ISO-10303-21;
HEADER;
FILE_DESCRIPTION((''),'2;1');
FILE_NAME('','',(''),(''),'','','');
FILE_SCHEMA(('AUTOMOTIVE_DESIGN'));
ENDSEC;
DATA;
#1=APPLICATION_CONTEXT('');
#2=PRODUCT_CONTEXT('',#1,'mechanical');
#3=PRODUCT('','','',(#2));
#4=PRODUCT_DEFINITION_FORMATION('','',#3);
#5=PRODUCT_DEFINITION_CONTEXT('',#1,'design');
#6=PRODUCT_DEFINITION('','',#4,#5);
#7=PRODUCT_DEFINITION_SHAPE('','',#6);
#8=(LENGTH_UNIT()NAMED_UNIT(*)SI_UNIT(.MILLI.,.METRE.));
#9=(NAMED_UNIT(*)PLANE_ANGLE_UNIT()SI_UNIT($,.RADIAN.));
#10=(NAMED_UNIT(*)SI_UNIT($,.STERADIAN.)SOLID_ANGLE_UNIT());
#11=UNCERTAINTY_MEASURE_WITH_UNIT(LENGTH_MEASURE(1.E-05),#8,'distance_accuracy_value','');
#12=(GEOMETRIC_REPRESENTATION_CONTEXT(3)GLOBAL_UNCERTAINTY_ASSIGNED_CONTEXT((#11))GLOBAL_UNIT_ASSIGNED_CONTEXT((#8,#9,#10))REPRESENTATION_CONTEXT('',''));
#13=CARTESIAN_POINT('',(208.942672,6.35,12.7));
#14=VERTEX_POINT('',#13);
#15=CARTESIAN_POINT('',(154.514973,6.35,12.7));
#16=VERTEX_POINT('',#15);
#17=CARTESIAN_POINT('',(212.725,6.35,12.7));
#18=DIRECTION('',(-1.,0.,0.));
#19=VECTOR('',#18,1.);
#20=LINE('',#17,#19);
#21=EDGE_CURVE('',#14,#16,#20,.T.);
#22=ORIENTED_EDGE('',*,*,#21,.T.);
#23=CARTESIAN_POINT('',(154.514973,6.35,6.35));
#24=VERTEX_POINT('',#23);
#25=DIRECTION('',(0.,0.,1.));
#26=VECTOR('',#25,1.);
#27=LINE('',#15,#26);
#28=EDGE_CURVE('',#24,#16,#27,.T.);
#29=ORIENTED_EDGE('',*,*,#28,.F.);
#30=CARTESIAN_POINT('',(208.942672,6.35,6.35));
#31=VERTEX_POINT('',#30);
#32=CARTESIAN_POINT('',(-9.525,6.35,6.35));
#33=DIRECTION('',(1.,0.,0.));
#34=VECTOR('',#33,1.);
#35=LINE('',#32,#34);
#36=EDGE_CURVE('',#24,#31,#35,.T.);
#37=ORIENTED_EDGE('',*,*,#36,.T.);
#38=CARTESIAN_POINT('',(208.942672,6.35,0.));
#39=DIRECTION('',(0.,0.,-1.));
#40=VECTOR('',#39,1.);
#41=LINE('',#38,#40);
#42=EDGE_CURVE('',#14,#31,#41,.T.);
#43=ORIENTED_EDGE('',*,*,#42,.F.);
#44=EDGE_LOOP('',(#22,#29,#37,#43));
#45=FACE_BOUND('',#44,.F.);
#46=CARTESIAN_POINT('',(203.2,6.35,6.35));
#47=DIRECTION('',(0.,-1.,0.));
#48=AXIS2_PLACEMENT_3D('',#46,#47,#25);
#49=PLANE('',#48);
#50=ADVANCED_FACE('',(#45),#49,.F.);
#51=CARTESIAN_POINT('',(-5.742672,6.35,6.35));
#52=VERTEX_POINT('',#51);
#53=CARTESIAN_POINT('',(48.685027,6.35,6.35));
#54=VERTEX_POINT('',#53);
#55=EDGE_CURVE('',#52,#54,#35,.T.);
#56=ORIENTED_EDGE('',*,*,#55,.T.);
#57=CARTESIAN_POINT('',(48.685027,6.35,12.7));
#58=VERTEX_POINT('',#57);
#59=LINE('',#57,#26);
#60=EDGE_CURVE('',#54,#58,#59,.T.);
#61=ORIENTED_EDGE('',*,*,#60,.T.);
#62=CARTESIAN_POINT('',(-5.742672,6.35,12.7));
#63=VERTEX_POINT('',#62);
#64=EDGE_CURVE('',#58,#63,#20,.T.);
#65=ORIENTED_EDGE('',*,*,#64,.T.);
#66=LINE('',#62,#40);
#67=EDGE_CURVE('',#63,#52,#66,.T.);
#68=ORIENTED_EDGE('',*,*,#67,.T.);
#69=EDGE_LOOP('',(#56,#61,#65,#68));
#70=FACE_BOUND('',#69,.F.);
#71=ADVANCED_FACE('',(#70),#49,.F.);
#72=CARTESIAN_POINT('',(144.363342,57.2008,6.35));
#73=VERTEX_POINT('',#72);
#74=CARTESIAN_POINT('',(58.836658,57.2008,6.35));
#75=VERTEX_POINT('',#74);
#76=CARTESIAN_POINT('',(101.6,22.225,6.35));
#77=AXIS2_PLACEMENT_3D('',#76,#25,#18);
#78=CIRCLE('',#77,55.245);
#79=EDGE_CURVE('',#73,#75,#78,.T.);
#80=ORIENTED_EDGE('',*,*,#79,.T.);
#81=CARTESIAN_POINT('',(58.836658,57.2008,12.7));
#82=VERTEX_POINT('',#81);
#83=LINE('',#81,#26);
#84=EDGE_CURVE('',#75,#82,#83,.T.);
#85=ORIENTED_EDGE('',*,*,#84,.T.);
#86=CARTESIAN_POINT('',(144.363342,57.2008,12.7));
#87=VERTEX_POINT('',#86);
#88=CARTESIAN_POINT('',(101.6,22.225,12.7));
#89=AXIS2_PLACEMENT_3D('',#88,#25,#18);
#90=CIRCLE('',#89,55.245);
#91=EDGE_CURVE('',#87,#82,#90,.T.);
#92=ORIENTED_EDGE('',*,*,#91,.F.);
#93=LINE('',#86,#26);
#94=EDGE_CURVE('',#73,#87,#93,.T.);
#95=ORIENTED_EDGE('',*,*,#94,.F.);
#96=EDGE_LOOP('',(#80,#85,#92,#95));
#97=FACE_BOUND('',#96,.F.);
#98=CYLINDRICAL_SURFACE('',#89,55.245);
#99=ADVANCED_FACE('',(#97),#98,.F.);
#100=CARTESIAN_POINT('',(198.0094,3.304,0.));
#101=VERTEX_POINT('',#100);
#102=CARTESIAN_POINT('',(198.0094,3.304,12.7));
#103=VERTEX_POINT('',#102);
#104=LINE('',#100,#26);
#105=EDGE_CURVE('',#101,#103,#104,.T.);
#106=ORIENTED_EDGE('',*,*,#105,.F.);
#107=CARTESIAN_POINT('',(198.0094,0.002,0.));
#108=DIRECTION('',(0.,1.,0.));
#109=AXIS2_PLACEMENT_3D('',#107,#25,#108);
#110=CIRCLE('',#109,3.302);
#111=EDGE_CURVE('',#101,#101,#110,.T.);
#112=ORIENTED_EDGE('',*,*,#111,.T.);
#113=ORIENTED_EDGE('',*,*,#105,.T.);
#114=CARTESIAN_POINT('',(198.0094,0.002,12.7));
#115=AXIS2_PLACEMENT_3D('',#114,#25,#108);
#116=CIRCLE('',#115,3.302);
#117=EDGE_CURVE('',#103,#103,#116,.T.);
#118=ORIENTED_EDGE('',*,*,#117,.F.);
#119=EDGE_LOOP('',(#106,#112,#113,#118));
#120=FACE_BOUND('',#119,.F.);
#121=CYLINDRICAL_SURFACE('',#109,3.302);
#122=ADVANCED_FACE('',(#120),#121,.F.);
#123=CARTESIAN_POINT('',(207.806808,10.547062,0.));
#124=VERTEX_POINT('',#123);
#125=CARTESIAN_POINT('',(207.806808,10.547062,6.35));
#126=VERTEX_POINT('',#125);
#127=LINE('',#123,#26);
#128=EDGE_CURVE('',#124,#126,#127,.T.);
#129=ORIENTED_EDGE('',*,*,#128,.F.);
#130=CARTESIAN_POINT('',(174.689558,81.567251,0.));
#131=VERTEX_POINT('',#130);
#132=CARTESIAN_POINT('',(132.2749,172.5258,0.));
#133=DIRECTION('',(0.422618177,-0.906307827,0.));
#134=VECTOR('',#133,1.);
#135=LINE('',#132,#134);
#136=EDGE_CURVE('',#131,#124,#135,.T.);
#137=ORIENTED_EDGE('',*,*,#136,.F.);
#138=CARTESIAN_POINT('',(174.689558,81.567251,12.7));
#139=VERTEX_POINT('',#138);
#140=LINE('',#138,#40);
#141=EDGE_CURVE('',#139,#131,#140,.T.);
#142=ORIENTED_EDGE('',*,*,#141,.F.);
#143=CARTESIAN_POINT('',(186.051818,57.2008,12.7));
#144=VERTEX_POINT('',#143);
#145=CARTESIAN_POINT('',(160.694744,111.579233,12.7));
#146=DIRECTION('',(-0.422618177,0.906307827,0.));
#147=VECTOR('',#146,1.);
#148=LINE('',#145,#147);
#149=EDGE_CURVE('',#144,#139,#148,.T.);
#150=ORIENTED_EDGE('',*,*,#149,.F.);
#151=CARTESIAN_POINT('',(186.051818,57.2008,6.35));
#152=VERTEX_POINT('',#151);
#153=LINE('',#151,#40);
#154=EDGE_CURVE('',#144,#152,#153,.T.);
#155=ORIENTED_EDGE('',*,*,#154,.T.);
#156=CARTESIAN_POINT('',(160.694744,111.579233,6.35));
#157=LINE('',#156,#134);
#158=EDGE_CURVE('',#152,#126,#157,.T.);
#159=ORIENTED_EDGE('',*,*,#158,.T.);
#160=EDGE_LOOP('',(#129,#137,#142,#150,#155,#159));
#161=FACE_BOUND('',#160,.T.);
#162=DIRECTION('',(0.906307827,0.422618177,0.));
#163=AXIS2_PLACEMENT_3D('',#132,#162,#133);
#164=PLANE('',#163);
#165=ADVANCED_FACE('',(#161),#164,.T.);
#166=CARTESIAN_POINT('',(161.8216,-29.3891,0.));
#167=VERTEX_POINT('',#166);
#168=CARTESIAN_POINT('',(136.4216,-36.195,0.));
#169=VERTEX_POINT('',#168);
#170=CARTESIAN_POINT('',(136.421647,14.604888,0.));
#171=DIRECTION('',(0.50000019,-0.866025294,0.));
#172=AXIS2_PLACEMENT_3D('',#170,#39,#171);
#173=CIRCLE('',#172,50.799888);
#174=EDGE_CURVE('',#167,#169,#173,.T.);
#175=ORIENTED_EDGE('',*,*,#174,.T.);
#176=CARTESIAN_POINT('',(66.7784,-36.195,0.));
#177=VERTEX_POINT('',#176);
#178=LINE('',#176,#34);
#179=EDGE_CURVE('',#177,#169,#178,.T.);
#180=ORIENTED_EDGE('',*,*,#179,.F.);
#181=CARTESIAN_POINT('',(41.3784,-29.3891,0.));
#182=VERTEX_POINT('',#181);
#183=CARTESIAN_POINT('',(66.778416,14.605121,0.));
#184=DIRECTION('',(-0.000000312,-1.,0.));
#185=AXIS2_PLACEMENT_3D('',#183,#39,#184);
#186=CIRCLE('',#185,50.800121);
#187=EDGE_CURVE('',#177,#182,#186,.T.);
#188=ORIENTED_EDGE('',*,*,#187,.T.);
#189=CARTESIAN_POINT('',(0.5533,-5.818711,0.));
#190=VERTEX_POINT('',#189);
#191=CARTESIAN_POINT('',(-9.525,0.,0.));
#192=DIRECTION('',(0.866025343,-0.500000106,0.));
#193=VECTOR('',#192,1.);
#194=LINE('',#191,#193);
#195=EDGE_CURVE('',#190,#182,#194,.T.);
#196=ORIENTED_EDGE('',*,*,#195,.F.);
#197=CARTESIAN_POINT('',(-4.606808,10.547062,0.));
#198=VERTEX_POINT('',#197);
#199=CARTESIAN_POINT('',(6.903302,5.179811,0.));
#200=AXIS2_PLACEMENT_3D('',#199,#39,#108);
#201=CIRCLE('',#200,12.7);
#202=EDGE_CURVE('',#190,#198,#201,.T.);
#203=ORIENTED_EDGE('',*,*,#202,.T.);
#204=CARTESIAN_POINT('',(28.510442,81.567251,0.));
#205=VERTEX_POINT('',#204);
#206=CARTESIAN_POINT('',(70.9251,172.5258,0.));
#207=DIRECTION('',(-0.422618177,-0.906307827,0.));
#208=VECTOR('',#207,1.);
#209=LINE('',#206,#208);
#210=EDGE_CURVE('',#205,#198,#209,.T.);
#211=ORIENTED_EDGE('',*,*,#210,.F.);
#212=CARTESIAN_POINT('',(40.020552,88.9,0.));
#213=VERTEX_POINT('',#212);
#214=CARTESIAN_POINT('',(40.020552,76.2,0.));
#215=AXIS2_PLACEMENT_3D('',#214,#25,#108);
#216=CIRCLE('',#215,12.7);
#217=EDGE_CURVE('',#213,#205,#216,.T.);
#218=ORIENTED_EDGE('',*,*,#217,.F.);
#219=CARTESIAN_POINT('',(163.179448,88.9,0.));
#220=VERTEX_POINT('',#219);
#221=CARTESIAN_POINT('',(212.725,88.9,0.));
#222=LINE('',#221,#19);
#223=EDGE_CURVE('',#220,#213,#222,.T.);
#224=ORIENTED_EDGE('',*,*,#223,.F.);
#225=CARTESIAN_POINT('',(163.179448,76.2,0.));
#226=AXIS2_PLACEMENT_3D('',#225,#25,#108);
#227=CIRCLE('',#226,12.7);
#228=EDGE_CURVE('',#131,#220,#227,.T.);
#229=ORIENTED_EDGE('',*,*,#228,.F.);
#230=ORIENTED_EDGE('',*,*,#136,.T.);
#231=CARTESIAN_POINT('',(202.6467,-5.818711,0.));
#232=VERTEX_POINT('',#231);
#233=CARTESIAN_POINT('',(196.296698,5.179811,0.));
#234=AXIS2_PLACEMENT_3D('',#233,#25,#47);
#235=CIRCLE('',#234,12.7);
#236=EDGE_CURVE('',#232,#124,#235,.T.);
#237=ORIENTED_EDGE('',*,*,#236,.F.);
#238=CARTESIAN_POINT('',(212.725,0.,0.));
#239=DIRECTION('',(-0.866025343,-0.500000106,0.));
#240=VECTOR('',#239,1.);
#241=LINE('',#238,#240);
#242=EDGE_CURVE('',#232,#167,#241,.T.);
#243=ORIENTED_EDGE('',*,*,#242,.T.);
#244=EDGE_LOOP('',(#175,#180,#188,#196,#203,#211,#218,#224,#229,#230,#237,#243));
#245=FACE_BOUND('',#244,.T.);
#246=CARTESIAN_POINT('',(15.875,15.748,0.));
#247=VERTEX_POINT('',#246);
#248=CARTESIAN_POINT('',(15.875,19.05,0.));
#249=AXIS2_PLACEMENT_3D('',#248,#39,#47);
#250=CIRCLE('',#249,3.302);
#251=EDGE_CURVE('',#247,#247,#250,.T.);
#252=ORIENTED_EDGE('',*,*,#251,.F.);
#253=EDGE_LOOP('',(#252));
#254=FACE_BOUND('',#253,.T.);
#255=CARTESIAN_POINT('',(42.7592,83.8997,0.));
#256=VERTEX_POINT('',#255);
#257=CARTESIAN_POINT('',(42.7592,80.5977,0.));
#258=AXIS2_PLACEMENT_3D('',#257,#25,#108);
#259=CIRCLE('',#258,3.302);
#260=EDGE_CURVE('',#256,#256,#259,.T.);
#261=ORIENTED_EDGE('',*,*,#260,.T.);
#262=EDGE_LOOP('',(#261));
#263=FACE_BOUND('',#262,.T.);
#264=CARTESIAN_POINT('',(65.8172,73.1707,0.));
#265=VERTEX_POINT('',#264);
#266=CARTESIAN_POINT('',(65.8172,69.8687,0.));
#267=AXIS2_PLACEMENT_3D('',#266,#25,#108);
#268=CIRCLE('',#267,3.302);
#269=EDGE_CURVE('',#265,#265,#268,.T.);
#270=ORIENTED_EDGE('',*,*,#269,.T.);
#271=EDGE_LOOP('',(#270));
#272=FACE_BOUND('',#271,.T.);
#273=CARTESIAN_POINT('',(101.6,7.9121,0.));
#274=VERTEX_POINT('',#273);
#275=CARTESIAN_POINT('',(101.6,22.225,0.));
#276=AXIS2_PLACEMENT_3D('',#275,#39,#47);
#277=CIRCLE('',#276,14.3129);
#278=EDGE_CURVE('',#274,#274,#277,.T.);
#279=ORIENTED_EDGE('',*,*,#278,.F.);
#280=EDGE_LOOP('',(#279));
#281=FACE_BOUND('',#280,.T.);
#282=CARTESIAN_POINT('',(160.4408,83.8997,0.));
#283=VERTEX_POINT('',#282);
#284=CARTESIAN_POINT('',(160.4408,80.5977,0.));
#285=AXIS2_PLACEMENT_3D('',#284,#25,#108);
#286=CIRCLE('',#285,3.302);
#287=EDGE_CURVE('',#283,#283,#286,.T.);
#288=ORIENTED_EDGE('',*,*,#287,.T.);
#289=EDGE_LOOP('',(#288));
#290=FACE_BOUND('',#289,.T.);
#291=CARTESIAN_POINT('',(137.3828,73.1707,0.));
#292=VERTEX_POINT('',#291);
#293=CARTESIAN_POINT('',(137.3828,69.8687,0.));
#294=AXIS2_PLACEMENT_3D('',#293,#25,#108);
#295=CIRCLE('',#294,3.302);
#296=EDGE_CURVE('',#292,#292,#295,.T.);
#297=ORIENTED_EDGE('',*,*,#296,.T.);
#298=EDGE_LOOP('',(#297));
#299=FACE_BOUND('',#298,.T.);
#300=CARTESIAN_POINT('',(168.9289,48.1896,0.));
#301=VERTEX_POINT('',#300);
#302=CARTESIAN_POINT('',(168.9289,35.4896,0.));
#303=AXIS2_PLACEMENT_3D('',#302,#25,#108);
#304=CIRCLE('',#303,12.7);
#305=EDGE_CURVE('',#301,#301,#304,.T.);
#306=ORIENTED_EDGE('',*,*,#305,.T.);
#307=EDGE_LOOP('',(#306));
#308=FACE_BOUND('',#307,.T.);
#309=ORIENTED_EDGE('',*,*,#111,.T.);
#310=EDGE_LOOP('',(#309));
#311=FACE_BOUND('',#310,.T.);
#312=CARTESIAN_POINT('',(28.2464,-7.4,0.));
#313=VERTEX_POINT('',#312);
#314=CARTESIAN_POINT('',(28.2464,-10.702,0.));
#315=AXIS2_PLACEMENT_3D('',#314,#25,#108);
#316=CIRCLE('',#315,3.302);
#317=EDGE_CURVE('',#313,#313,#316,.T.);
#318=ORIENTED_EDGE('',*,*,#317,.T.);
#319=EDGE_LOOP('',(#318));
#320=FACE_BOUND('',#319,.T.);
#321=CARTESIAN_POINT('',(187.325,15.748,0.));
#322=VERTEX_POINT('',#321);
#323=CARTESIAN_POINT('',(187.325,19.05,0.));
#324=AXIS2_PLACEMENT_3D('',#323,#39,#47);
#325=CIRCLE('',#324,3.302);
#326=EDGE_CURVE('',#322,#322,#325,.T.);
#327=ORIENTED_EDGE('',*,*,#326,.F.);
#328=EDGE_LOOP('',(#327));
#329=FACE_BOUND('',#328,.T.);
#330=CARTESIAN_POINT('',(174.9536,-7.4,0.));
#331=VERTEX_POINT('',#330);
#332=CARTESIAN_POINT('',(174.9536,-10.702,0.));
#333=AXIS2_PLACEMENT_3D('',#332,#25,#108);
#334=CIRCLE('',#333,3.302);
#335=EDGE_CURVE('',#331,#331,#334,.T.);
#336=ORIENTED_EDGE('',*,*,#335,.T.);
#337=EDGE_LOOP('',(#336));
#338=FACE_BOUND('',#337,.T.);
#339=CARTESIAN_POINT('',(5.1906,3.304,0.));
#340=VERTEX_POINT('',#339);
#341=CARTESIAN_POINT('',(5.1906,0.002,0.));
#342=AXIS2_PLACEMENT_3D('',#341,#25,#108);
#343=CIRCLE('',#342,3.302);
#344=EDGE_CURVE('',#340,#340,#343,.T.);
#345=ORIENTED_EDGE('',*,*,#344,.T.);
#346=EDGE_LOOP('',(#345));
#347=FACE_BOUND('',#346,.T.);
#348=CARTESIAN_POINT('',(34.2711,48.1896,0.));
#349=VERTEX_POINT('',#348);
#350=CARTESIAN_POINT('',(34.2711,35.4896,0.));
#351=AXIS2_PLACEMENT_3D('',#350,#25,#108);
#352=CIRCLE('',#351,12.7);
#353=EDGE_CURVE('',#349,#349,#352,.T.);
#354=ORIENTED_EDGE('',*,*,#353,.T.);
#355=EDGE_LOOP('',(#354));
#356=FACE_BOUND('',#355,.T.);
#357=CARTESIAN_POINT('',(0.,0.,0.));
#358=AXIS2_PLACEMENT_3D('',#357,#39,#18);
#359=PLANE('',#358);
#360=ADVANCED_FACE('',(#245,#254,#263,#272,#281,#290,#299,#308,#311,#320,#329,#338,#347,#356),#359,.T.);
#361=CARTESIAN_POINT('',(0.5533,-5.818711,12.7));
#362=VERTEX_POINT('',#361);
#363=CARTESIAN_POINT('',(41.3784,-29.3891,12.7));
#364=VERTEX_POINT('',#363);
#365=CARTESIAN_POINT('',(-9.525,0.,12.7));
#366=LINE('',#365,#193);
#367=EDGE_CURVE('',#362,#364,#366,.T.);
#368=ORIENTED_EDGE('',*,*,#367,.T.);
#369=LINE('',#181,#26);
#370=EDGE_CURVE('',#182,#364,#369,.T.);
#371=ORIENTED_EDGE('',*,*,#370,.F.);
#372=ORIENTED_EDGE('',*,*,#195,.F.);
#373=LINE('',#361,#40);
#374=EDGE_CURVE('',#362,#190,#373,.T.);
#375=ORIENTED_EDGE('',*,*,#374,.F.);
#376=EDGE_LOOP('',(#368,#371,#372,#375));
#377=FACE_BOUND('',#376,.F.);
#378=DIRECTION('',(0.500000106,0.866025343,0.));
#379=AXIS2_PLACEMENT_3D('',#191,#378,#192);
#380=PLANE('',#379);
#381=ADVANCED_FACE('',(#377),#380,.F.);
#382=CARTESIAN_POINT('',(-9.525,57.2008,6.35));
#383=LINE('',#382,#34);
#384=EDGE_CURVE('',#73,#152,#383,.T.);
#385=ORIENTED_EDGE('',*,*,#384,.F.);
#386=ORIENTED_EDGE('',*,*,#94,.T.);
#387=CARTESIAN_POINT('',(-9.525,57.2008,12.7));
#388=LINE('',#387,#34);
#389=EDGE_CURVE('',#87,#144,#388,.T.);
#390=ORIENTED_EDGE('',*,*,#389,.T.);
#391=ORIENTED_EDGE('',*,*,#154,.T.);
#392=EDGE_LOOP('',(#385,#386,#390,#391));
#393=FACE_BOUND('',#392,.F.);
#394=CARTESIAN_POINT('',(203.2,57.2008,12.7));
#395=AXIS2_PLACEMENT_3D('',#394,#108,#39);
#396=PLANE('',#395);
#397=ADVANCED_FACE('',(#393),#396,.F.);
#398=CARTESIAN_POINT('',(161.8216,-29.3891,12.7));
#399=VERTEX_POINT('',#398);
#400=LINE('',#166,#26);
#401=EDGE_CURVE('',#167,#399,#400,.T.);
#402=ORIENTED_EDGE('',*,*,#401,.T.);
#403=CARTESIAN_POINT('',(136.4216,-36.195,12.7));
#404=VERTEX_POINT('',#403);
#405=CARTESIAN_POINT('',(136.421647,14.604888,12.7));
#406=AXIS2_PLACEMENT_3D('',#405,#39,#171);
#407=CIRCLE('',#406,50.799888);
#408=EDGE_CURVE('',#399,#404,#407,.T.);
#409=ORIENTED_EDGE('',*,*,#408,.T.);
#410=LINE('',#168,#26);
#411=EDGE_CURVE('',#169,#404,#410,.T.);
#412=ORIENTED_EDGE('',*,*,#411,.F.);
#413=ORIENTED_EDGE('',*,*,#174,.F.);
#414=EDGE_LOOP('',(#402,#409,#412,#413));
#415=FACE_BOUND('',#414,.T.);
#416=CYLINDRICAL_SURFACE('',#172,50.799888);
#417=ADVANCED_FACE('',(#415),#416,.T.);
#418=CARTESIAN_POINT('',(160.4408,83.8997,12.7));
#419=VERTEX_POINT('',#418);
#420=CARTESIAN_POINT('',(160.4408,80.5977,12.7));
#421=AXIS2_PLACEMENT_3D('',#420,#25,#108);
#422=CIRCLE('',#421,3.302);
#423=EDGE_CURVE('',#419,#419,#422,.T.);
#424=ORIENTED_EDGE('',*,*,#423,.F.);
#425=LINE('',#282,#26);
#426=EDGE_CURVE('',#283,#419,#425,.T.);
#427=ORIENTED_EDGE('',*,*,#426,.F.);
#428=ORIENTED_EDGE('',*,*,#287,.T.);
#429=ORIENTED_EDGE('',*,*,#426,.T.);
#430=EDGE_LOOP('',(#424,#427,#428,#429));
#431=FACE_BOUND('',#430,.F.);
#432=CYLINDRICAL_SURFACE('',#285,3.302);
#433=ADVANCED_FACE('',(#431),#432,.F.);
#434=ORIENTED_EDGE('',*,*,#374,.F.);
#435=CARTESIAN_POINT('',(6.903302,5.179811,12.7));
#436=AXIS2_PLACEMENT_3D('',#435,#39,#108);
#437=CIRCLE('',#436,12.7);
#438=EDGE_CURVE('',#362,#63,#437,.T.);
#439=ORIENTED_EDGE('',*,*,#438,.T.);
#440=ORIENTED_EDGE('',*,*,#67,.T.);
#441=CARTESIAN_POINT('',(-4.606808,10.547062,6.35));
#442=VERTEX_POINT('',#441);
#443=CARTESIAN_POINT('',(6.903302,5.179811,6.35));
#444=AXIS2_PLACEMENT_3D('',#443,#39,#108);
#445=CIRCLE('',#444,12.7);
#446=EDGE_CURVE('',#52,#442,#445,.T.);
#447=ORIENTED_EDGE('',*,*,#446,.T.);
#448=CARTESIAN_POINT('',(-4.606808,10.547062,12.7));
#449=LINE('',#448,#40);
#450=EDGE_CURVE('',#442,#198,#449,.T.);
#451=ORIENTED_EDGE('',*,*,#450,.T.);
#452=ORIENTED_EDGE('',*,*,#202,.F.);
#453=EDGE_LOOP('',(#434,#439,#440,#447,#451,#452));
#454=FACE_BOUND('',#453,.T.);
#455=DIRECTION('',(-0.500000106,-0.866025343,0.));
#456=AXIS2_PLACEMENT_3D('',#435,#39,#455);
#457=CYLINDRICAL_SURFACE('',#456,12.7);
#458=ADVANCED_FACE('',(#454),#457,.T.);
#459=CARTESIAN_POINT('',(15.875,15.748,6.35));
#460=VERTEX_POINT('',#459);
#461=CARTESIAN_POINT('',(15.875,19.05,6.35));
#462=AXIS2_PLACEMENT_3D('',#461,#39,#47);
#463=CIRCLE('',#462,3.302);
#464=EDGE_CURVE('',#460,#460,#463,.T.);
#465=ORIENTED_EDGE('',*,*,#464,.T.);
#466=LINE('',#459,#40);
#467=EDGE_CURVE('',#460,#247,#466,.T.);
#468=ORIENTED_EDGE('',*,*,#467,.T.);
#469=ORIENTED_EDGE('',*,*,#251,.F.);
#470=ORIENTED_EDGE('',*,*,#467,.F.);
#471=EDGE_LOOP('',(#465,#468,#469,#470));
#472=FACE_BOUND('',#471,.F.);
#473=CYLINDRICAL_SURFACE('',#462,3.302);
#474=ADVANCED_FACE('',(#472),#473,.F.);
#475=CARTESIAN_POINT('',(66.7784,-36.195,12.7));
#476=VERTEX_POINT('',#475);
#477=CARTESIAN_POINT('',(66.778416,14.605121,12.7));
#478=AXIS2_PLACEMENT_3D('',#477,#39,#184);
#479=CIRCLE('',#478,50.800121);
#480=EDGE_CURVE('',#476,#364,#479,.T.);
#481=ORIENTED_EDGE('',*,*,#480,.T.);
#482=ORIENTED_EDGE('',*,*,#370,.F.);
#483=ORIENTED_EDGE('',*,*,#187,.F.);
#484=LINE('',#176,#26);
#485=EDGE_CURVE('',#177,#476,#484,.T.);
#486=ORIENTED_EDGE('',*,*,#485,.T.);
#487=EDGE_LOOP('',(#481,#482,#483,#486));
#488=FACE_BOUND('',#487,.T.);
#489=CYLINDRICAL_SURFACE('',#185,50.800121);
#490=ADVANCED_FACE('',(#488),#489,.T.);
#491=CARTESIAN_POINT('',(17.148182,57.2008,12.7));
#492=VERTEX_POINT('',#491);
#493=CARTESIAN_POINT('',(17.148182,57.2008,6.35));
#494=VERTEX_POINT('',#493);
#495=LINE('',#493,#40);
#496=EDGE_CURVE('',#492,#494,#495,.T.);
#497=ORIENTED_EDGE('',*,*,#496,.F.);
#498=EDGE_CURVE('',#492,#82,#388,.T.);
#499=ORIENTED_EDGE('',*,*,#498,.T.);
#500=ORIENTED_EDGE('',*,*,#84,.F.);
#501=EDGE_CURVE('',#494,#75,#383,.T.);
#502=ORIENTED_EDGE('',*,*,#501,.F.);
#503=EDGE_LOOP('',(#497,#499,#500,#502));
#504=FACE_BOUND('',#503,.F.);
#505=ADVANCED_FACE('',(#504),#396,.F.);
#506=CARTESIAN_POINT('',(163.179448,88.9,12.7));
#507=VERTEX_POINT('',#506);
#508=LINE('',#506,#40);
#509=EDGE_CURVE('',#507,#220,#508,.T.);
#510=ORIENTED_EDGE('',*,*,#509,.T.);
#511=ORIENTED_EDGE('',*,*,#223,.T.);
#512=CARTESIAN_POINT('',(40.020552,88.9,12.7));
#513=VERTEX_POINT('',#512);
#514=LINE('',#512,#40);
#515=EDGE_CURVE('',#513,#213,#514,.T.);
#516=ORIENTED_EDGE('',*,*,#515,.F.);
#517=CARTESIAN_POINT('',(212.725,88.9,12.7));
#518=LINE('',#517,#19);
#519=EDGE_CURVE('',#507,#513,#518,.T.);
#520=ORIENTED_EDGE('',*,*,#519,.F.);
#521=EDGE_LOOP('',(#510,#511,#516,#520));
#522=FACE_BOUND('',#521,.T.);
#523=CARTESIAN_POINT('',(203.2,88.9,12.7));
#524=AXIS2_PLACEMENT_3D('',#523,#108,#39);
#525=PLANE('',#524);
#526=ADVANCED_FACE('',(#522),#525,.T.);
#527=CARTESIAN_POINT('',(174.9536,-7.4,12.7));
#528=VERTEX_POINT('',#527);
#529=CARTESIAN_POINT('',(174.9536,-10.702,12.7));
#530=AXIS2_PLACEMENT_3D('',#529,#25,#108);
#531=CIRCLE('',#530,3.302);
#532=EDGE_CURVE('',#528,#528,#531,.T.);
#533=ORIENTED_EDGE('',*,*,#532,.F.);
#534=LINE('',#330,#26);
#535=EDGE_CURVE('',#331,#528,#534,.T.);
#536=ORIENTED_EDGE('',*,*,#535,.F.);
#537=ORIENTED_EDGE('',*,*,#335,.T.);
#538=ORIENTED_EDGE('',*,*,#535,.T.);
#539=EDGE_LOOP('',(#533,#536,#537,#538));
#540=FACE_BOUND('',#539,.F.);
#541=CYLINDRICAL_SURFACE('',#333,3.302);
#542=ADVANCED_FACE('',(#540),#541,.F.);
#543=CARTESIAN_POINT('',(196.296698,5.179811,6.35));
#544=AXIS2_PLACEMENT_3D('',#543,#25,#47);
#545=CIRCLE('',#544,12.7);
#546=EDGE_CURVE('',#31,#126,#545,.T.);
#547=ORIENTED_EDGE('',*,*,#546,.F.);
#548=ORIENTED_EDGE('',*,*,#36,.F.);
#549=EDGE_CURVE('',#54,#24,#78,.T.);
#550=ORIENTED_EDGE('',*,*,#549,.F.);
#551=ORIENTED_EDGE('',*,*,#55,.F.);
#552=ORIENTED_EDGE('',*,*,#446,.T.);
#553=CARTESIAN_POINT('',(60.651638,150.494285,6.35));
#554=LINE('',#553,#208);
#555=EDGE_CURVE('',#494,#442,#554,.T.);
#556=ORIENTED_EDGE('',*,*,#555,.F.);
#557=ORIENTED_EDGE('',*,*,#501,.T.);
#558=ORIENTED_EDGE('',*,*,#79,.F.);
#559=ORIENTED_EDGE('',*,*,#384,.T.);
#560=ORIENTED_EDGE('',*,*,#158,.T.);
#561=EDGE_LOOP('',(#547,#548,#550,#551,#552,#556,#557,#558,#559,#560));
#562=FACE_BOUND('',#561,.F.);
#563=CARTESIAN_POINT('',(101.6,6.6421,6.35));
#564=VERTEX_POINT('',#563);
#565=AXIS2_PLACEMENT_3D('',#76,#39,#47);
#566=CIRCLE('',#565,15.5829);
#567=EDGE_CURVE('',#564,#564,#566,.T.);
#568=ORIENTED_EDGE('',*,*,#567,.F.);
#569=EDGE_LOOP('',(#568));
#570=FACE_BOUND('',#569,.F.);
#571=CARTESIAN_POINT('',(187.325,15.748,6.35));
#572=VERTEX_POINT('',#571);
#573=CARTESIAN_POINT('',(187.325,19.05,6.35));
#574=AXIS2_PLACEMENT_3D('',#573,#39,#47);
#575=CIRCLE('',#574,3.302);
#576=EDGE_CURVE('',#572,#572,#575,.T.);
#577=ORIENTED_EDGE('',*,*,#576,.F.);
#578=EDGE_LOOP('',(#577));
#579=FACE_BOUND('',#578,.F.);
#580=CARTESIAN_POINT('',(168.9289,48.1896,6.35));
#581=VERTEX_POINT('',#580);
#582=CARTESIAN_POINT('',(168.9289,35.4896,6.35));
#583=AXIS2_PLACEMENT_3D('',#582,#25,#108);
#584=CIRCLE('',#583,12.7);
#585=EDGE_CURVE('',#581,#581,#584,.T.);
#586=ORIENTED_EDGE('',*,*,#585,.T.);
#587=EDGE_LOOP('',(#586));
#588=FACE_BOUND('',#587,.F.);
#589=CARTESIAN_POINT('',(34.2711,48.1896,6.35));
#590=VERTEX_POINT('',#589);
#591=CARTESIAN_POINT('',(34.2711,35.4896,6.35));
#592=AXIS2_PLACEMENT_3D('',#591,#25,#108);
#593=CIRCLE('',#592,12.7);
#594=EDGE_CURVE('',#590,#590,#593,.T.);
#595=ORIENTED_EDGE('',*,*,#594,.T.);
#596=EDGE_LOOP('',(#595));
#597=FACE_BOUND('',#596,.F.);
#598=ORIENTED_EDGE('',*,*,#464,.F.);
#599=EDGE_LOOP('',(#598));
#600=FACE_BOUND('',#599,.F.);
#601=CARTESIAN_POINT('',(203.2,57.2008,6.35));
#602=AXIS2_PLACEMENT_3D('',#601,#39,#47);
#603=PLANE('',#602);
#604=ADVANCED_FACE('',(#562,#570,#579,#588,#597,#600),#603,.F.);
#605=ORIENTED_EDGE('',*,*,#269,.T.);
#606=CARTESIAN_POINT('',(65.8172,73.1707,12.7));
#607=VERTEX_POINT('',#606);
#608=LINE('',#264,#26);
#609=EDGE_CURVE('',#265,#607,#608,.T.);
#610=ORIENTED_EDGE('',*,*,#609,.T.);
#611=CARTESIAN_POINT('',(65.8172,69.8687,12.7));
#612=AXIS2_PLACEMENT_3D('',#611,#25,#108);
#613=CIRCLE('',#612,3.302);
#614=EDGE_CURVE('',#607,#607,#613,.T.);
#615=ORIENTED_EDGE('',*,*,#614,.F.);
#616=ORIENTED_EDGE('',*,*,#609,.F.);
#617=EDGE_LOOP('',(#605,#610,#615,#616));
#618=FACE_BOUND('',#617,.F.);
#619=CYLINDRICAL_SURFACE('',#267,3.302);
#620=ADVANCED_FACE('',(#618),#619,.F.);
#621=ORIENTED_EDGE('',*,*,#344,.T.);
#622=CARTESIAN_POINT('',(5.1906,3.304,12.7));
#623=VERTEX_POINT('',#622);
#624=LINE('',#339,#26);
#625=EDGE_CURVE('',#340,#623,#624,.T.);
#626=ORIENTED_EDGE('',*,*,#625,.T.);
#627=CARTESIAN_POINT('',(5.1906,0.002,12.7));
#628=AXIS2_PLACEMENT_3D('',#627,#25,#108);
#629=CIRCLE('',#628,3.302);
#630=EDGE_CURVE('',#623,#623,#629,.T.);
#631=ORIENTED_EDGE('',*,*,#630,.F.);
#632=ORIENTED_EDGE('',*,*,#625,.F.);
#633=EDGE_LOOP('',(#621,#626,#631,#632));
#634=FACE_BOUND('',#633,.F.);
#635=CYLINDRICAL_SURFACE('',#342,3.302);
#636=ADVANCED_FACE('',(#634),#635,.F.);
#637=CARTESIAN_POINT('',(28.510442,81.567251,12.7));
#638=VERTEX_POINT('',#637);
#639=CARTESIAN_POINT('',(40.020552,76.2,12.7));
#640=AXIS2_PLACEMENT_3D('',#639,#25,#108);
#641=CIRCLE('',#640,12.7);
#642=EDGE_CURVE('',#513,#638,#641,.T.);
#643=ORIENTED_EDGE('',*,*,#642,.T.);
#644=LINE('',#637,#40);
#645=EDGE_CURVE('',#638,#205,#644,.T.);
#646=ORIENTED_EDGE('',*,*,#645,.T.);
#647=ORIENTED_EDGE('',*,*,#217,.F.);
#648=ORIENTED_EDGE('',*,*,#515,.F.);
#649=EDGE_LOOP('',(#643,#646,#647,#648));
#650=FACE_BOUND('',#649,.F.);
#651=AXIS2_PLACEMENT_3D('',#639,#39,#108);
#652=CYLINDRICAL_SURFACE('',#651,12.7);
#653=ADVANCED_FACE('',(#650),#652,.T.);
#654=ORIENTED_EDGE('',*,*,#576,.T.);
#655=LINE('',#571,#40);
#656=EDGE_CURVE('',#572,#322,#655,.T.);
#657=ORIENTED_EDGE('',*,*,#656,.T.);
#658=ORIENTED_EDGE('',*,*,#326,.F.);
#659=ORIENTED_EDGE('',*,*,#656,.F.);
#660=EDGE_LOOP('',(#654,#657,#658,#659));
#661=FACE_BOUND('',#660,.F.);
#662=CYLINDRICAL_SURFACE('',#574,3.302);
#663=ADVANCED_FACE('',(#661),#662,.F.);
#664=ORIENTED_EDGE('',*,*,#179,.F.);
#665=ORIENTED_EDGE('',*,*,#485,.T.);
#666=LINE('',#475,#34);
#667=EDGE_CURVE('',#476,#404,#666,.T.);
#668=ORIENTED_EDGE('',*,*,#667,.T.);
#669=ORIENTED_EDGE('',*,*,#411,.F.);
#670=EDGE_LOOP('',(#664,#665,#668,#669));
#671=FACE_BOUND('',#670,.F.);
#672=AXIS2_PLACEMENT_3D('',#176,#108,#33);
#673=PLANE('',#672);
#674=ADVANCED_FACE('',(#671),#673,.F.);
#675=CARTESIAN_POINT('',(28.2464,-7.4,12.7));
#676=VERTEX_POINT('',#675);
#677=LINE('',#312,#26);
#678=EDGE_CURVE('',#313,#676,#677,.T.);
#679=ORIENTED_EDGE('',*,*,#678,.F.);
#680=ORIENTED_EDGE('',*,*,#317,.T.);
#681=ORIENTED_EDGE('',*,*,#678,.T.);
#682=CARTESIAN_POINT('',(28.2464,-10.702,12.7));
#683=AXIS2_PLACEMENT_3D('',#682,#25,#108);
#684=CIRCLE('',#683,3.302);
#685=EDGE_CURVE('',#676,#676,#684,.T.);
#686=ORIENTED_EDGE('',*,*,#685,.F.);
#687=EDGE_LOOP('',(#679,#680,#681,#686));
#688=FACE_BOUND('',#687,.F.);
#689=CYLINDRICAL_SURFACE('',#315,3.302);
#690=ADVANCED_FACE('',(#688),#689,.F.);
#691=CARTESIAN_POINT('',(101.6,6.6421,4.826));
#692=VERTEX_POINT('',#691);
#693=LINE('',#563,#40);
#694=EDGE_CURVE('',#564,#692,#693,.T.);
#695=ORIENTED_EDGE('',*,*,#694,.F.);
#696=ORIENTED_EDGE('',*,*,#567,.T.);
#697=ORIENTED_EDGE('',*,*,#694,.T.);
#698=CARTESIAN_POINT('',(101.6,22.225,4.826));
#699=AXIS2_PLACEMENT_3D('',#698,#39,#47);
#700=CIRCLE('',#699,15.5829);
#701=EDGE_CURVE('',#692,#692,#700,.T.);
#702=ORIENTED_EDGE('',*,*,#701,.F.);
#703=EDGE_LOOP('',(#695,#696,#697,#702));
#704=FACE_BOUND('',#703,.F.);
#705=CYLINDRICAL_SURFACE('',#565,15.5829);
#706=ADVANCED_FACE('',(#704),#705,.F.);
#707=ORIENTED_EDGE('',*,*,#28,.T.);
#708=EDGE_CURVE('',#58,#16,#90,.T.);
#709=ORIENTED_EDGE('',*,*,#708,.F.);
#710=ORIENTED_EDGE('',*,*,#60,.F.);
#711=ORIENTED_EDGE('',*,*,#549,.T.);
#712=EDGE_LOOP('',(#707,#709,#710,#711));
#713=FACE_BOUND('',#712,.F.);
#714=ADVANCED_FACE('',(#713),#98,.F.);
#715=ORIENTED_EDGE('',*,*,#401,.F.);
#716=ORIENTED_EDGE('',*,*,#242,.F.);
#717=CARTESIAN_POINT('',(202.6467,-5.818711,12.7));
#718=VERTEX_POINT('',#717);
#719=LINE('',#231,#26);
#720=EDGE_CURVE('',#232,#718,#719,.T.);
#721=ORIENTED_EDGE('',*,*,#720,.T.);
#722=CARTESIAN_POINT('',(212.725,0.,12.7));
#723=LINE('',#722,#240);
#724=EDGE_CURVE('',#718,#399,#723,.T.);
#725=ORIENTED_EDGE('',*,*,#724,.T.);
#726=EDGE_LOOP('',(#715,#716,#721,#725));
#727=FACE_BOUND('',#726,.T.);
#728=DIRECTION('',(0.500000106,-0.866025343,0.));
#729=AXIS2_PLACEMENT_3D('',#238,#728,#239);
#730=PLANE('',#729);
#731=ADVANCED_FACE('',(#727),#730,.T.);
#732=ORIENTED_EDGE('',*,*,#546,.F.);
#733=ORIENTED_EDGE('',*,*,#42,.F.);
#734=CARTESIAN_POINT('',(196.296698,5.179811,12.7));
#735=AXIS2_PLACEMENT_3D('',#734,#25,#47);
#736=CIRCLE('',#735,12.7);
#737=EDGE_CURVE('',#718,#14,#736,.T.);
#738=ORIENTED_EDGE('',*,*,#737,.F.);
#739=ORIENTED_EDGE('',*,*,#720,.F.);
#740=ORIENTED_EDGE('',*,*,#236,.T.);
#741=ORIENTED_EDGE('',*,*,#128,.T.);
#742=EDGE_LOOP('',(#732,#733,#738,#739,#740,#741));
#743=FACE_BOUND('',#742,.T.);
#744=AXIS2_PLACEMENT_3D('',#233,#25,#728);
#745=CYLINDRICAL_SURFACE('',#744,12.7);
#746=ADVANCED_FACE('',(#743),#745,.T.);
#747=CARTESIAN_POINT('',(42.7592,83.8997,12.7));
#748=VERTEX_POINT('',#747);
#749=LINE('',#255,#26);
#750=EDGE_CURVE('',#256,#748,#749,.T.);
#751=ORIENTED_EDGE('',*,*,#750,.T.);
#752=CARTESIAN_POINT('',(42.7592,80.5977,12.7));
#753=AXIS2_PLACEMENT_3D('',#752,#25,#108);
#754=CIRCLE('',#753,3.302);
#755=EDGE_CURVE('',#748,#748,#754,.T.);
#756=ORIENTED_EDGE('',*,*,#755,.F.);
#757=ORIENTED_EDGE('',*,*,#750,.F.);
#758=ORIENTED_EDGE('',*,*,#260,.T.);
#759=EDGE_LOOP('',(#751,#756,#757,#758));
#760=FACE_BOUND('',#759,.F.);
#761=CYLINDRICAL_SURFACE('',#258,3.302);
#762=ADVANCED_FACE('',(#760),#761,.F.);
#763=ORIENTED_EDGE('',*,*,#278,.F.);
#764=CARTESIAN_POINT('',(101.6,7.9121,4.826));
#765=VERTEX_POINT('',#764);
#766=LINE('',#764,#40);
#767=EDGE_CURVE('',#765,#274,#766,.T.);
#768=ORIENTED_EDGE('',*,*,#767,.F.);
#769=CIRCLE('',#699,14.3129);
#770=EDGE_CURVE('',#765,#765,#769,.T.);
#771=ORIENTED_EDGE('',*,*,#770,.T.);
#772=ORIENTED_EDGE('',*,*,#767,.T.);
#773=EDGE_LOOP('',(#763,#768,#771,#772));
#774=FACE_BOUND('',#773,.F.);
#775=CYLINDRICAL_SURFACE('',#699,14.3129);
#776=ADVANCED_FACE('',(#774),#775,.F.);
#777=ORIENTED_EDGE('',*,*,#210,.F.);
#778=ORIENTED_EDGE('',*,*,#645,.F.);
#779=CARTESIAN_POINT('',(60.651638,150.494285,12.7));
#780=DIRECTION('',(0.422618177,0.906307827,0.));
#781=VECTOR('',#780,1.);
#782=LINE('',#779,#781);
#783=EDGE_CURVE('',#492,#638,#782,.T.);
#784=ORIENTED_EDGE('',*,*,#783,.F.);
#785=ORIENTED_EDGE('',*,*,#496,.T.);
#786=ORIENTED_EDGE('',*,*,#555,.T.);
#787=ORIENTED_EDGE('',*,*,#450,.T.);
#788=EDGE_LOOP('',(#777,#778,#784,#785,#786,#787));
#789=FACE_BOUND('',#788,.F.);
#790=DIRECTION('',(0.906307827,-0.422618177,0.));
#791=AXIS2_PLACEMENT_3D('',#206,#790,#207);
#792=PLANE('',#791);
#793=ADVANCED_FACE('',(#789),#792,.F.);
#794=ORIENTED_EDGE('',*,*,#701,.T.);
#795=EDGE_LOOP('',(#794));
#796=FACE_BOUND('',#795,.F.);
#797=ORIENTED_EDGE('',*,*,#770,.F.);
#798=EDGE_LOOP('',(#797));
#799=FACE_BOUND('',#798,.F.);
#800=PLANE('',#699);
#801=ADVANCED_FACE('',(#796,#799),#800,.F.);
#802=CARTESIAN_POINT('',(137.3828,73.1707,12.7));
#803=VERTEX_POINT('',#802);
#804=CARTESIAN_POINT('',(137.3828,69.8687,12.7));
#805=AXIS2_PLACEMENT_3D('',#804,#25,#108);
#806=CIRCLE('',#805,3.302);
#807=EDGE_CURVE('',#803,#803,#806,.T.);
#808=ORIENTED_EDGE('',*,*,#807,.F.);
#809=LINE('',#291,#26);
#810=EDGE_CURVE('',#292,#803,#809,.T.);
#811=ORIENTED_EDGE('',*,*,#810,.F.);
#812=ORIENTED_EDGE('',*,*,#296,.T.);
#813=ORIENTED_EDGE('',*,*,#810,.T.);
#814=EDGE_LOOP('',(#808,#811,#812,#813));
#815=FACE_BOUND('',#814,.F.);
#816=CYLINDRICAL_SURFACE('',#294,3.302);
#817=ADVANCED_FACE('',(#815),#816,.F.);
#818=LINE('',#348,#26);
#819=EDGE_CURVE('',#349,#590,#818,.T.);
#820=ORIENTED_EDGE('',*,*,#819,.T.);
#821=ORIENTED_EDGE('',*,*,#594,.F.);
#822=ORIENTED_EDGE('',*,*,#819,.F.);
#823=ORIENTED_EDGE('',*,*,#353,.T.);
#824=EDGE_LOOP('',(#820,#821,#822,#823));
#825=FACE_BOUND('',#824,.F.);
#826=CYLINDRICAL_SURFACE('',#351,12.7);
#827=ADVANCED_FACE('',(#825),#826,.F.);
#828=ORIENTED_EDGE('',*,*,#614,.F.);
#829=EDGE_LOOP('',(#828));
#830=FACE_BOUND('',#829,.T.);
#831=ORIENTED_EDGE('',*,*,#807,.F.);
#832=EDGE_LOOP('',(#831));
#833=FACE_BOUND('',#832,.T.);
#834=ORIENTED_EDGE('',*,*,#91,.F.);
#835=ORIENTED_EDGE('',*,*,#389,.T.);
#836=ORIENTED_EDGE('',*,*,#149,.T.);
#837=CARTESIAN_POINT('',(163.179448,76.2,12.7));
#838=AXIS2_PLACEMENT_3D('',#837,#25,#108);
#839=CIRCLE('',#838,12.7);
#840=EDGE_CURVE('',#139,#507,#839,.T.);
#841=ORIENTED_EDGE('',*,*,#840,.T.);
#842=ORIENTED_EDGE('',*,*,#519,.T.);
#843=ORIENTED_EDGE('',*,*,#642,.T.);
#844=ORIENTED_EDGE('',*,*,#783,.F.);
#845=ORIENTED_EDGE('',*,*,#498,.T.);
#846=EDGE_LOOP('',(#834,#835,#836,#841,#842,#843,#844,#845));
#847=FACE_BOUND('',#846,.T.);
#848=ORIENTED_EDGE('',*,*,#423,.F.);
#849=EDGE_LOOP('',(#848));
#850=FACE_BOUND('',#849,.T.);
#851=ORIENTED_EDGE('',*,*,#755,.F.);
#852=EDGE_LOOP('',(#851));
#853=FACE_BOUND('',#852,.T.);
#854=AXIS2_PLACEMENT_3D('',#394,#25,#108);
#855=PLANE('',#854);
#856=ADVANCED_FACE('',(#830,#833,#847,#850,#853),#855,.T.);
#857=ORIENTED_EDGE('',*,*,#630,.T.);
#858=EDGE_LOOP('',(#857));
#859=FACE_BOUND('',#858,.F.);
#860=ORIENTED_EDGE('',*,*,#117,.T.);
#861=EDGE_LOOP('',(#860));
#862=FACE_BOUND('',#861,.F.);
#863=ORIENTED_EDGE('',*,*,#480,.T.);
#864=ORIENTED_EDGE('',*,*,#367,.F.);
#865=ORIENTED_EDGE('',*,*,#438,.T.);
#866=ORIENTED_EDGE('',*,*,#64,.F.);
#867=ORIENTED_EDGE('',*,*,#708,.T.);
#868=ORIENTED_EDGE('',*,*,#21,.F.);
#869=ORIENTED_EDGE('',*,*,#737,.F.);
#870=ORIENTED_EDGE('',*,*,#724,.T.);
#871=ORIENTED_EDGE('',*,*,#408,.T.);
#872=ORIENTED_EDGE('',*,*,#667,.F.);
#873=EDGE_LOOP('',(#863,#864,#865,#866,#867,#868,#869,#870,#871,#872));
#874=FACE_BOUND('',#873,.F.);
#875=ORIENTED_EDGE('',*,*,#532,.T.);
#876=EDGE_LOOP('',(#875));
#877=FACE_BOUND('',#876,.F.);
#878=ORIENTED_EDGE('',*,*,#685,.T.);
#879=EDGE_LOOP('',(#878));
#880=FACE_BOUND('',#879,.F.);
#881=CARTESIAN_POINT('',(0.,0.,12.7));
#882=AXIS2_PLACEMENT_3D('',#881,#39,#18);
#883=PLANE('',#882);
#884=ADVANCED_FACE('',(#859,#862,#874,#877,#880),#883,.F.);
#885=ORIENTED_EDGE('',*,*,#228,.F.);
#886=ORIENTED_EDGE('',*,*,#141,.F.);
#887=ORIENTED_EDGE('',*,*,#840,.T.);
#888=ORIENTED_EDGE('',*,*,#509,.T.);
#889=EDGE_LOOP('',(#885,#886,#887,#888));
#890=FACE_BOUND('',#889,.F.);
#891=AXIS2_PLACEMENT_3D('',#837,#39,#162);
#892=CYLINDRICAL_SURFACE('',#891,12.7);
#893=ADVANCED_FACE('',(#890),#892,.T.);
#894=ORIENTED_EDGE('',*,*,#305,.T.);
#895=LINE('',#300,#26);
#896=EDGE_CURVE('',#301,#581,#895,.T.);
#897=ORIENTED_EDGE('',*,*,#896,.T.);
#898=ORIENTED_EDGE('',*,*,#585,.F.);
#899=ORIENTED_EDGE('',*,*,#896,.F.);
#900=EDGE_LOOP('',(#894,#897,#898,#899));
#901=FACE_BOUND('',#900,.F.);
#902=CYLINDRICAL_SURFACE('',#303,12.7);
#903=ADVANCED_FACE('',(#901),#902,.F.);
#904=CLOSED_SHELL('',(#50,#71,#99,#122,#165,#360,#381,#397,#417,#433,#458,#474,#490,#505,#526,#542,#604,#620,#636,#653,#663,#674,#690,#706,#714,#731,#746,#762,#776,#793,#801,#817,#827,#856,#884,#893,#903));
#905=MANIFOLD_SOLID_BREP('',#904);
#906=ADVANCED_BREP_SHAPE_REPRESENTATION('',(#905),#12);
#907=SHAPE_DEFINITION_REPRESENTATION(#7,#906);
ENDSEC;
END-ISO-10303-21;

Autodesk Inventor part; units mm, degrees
ref_plane "YZ Plane" through (0, 0, 0) normal (1, 0, 0) x (0, 1, 0)
ref_plane "XZ Plane" through (0, 0, 0) normal (0, 1, 0) x (-1, 0, 0)
sketch "Sketch1" plane through (0, 0, 0) normal (0, 0, 1) x (1, 0, 0)
  line L0 (0, 0) -> (0, 63.5)
  line L1 (0, 63.5) -> (203.2, 63.5)
  line L2 (203.2, 63.5) -> (203.2, 0)
  line L3 (0, 0) -> (203.2, 0)
  dimension "d0" = 63.5
  dimension "d1" = 203.2
extrude "Extrusion1" add sketch "Sketch1" along normal blind 12.7
sketch "Sketch2" plane through (0, 0, 12.7) normal (0, 0, 1) x (1, 0, 0)
  line L0 (0, 63.5) -> (0, 0)
  line L1 (203.2, 0) -> (203.2, 63.5)
  line L2 (0, 57.2008) -> (203.2, 57.2008)
  line L3 (203.2, 57.2008) -> (203.2, 6.35)
  line L4 (203.2, 6.35) -> (0, 6.35)
  line L5 (0, 6.35) -> (0, 57.2008)
  line L6 (0, 63.5) -> (203.2, 63.5)
  line L7 (203.2, 0) -> (0, 0)
  dimension "d4" = 6.2992
  dimension "d5" = 6.35
extrude "Extrusion2" cut sketch "Sketch2" against normal blind 6.35 contours L2 L1 L4 L0
sketch "Sketch7" plane through (0, 0, 6.35) normal (0, 0, 1) x (1, 0, 0)
  line L0 (203.2, 6.35) -> (0, 6.35)
  line L1 (203.2, 57.2008) -> (203.2, 6.35)
  point P0 (0, 0)
  point P1 (101.6, 22.225)
  dimension "d19" = 15.875
  dimension "d20" = 101.6
hole "Hole1" at (101.6, 22.225, 6.35) direction (0, 0, -1) diameter 28.6258 end through all counterbore diameter 31.1658 counterbore depth 1.524
sketch "Sketch8" plane through (0, 0, 0) normal (0, 0, -1) x (-1, 0, 0)
  circle A0 centre (-34.2711, 35.4896) radius 17.78
  circle A1 centre (-34.2711, 35.4896) radius 17.78
  circle A2 centre (-34.2711, 35.4896) radius 17.78
  line L0 (-203.2, 63.5) -> (-203.2, 0)
  point P0 (0, 0)
  point P1 (-168.9289, 35.4896)
  dimension "d28" = 34.2711
hole "Hole2" at (168.9289, 35.4896, 0) at (34.2711, 35.4896, 0) direction (0, 0, 1) diameter 25.4 end through all
sketch "Sketch10" plane through (0, 63.5, 0) normal (0, 1, 0) x (1, 0, 0)
  line L0 (0, -12.7) -> (203.2, -12.7)
  line L1 (203.2, -12.7) -> (203.2, 0)
  line L2 (203.2, 0) -> (0, 0)
  line L3 (0, 0) -> (0, -12.7)
  point P0 (0, 0)
extrude "Extrusion5" add sketch "Sketch10" along normal blind 25.4
sketch "Sketch11" plane through (0, 6.35, 6.35) normal (-1, 0, 0) x (0, 0, 1)
  line L0 (0, 50.8508) -> (6.35, 50.8508)
  line L1 (6.35, 50.8508) -> (6.35, 82.55)
  line L2 (-6.35, 82.55) -> (6.35, 82.55)
  line L3 (-6.35, -6.35) -> (-6.35, 82.55)
  line L4 (6.35, 0) -> (6.35, -6.35)
  line L5 (6.35, 0) -> (0, 0)
  line L6 (0, 0) -> (0, 50.8508)
  line L7 (-6.35, -6.35) -> (6.35, -6.35)
extrude "Extrusion6" add sketch "Sketch11" along normal blind 9.525
sketch "Sketch12" plane through (203.2, 6.35, 6.35) normal (1, 0, 0) x (0, 0, -1)
  line L0 (-6.35, 50.8508) -> (0, 50.8508)
  line L1 (0, 50.8508) -> (0, 0)
  line L2 (0, 0) -> (-6.35, 0)
  line L3 (-6.35, -6.35) -> (-6.35, 0)
  line L4 (6.35, 82.55) -> (6.35, -6.35)
  line L5 (-6.35, 82.55) -> (6.35, 82.55)
  line L6 (-6.35, 50.8508) -> (-6.35, 82.55)
  line L7 (6.35, -6.35) -> (-6.35, -6.35)
extrude "Extrusion7" add sketch "Sketch12" along normal blind 9.525
sketch "Sketch15" plane through (0, 0, 0) normal (0, 0, -1) x (-1, 0, 0)
  circle A0 centre (-168.9289, 35.4896) radius 12.7
  circle A1 centre (-34.2711, 35.4896) radius 12.7
  circle A2 centre (-101.6, 22.225) radius 15.5829
  line L0 (9.525, 57.2008) -> (-212.725, 57.2008)
  line L1 (9.525, 6.35) -> (9.525, 57.2008)
  line L2 (-212.725, 6.35) -> (9.525, 6.35)
  line L3 (-212.725, 57.2008) -> (-212.725, 6.35)
  line L4 (9.525, 0) -> (-41.3784, -29.3891)
  circle A3 centre (-168.9289, 35.4896) radius 12.7
  circle A4 centre (-34.2711, 35.4896) radius 12.7
  circle A5 centre (-101.6, 22.225) radius 14.3129
  line L5 (9.525, 88.9) -> (-212.725, 88.9)
  line L6 (-212.725, 0) -> (-212.725, 88.9)
  line L7 (-212.725, 0) -> (9.525, 0)
  line L8 (9.525, 88.9) -> (9.525, 0)
  line L9 (-66.7784, -36.195) -> (-136.4216, -36.195)
  line L10 (-212.725, 0) -> (-161.8216, -29.3891)
  arc A6 (-161.8216, -29.3891) -> (-136.4216, -36.195) centre (-136.4216, 14.605) ccw
  arc A7 (-66.7784, -36.195) -> (-41.3784, -29.3891) centre (-66.7784, 14.605) ccw
  point P0 (0, 0)
  dimension "d45" = 30
  dimension "d46" = 30
  dimension "d47" = 50.8
  dimension "d48" = 58.42
  dimension "d49" = 50.8
extrude "Extrusion9" add sketch "Sketch15" against normal blind 12.7 contours L4 A7 L9 A6 L10 L7
ref_plane "Work Plane1" through (0, 88.9, 12.7) normal (0, 0, 1) x (-1, 0, 0)
sketch "Sketch16" plane through (0, 88.9, 12.7) normal (0, 0, 1) x (-1, 0, 0)
  circle A0 centre (-101.6, 66.675) radius 15.5829
  circle A1 centre (-101.6, 66.675) radius 14.3129
  circle A2 centre (-101.6, 66.675) radius 55.245
  point P0 (0, 88.9)
  dimension "d52" = 110.49
extrude "Extrusion10" cut sketch "Sketch16" against normal blind 6.35 contours A2
fillet "Fillet1" radius 12.7 2 edges at (-9.525, 88.9, 6.35) (212.725, 88.9, 6.35)
sketch "Sketch18" plane through (0, 0, 0) normal (0, 0, -1) x (-1, 0, 0)
  line L0 (55.6789, 19.6749) -> (-24.8919, -17.8959)
  arc A0 (-32.9559, -17.0915) -> (-24.8919, -17.8959) centre (-28.2464, -10.702) ccw
  line L1 (-32.9559, -17.0915) -> (-58.9371, 2.0584)
  arc A1 (-75.7697, 38.156) -> (-58.9371, 2.0584) centre (-34.2596, 35.5391) ccw
  line L2 (-75.7697, 38.156) -> (-73.739, 70.3681)
  arc A2 (-69.1717, 77.0625) -> (-73.739, 70.3681) centre (-65.8172, 69.8687) ccw
  line L3 (-69.1717, 77.0625) -> (11.399, 114.6333)
  arc A3 (21.9474, 110.794) -> (11.399, 114.6333) centre (14.7536, 107.4395) ccw
  line L4 (21.9474, 110.794) -> (59.5181, 30.2233)
  arc A4 (55.6789, 19.6749) -> (59.5181, 30.2233) centre (52.3243, 26.8687) ccw
  circle A5 centre (7.2265, 11.1552) radius 4.7625
  circle A6 centre (14.1519, 58.1138) radius 15.0939
  circle A7 centre (23.7563, 91.8143) radius 4.7625
  line L5 (51.6814, 19.5205) -> (45.6391, 23.7513)
  line L6 (58.3667, 22.6378) -> (51.6814, 19.5205)
  line L7 (59.0096, 29.9861) -> (58.3667, 22.6378)
  line L8 (52.9672, 34.217) -> (59.0096, 29.9861)
  line L9 (46.282, 31.0996) -> (52.9672, 34.217)
  line L10 (45.6391, 23.7513) -> (46.282, 31.0996)
  circle A8 centre (46.1416, 43.8088) radius 4.7625
  circle A9 centre (-34.2596, 35.5391) radius 17.4625
  line L11 (-4.5833, 7.3807) -> (1.459, 3.1498)
  line L12 (-11.2686, 4.2634) -> (-4.5833, 7.3807)
  line L13 (-11.9115, -3.0849) -> (-11.2686, 4.2634)
  line L14 (-5.8691, -7.3158) -> (-11.9115, -3.0849)
  line L15 (0.8161, -4.1984) -> (-5.8691, -7.3158)
  line L16 (1.459, 3.1498) -> (0.8161, -4.1984)
  line L17 (-42.1541, 87.9515) -> (-36.1117, 83.7206)
  line L18 (-48.8393, 84.8341) -> (-42.1541, 87.9515)
  line L19 (-49.4822, 77.4858) -> (-48.8393, 84.8341)
  line L20 (-43.4399, 73.255) -> (-49.4822, 77.4858)
  line L21 (-36.7546, 76.3723) -> (-43.4399, 73.255)
  line L22 (-36.1117, 83.7206) -> (-36.7546, 76.3723)
  line L23 (-27.6035, -3.3538) -> (-21.5612, -7.5847)
  line L24 (-34.2888, -6.4711) -> (-27.6035, -3.3538)
  line L25 (-34.9317, -13.8194) -> (-34.2888, -6.4711)
  line L26 (-28.8893, -18.0503) -> (-34.9317, -13.8194)
  line L27 (-22.2041, -14.9329) -> (-28.8893, -18.0503)
  line L28 (-21.5612, -7.5847) -> (-22.2041, -14.9329)
  line L29 (-65.1743, 77.217) -> (-59.132, 72.9861)
  line L30 (-71.8595, 74.0996) -> (-65.1743, 77.217)
  line L31 (-72.5024, 66.7513) -> (-71.8595, 74.0996)
  line L32 (-66.4601, 62.5204) -> (-72.5024, 66.7513)
  line L33 (-59.7749, 65.6378) -> (-66.4601, 62.5204)
  line L34 (-59.132, 72.9861) -> (-59.7749, 65.6378)
  circle A10 centre (-26.272, 82.993) radius 4.7625
  circle A11 centre (-19.7768, 91.3377) radius 4.064
  line L35 (8.0683, 104.3221) -> (8.7112, 111.6704)
  line L36 (14.1107, 100.0912) -> (8.0683, 104.3221)
  line L37 (20.7959, 103.2086) -> (14.1107, 100.0912)
  line L38 (21.4388, 110.5569) -> (20.7959, 103.2086)
  line L39 (15.3965, 114.7878) -> (21.4388, 110.5569)
  line L40 (8.7112, 111.6704) -> (15.3965, 114.7878)
  circle A12 centre (17.794, 10.767) radius 4.064
  line L41 (-101.6, -72.6306) -> (-101.6, 117.8056)
  line L42 (-212.725, 0) -> (-212.725, 76.2)
  point P0 (0, 0)
  point P1 (-42.7592, 80.5977)
  point P2 (-5.1906, 0.002)
  point P3 (-174.9536, -10.702)
  point P4 (-137.3828, 69.8687)
  point P5 (-160.4408, 80.5977)
  point P6 (-198.0094, 0.002)
  dimension "d56" = 6.35
  dimension "d58" = 7.3787
  dimension "d66" = 111.125
  dimension "d73" = 6.35
  dimension "d75" = 7.3787
hole "Hole3" at (42.7592, 80.5977, 0) at (5.1906, 0.002, 0) at (65.8172, 69.8687, 0) at (28.2464, -10.702, 0) at (160.4408, 80.5977, 0) at (137.3828, 69.8687, 0) at (174.9536, -10.702, 0) at (198.0094, 0.002, 0) direction (0, 0, 1) diameter 6.604 end through all
sketch "Sketch19" plane through (0, 0, 0) normal (0, 0, -1) x (-1, 0, 0)
  line L0 (-235.9962, 172.5258) -> (-132.2749, 172.5258)
  line L1 (-235.9962, -49.9053) -> (-235.9962, 172.5258)
  line L2 (-132.2749, 172.5258) -> (-235.9962, -49.9053)
  line L3 (-101.6, 179.9311) -> (-101.6, -67.571)
  circle A0 centre (-101.6, 22.225) radius 14.3129
  line L4 (32.7962, 172.5258) -> (-70.9251, 172.5258)
  line L5 (32.7962, -49.9053) -> (32.7962, 172.5258)
  line L6 (-70.9251, 172.5258) -> (32.7962, -49.9053)
  point P0 (0, 0)
  point P1 (-212.725, 0)
  dimension "d69" = 25
extrude "Extrusion11" cut sketch "Sketch19" against normal blind 25.4 contours L0 L2 L1 | L5 L6 L4
fillet "Fillet2" radius 12.7 4 edges at (171.2702, 88.9, 6.35) (212.725, 0, 6.35) (-9.525, 0, 6.35) (31.9298, 88.9, 6.35)
sketch "Sketch20" plane through (0, 0, 6.35) normal (0, 0, 1) x (1, 0, 0)
  arc A0 (-4.6068, 10.5471) -> (-5.7427, 6.35) centre (6.9033, 5.1798) ccw
  line L0 (48.685, 6.35) -> (-5.7427, 6.35)
  arc A1 (48.685, 6.35) -> (154.515, 6.35) centre (101.6, 22.225) ccw
  line L1 (208.9427, 6.35) -> (154.515, 6.35)
  arc A2 (208.9427, 6.35) -> (207.8068, 10.5471) centre (196.2967, 5.1798) ccw
  line L2 (207.8068, 10.5471) -> (186.0518, 57.2008)
  line L3 (144.3633, 57.2008) -> (186.0518, 57.2008)
  arc A3 (144.3633, 57.2008) -> (58.8367, 57.2008) centre (101.6, 22.225) ccw
  line L4 (17.1482, 57.2008) -> (58.8367, 57.2008)
  line L5 (17.1482, 57.2008) -> (-4.6068, 10.5471)
  circle A4 centre (34.2711, 35.4896) radius 12.7
  circle A5 centre (101.6, 22.225) radius 15.5829
  circle A6 centre (168.9289, 35.4896) radius 12.7
  circle A7 centre (198.0094, 0.002) radius 3.302
  circle A8 centre (28.2464, -10.702) radius 3.302
  circle A9 centre (5.1906, 0.002) radius 3.302
  circle A10 centre (174.9536, -10.702) radius 3.302
  arc A11 (-5.7427, 6.35) -> (0.5533, -5.8187) centre (6.9033, 5.1798) ccw
  line L6 (0.5533, -5.8187) -> (41.3784, -29.3891)
  arc A12 (41.3784, -29.3891) -> (66.7784, -36.195) centre (66.7784, 14.605) ccw
  line L7 (66.7784, -36.195) -> (136.4216, -36.195)
  arc A13 (136.4216, -36.195) -> (161.8216, -29.3891) centre (136.4216, 14.605) ccw
  line L8 (161.8216, -29.3891) -> (202.6467, -5.8187)
  arc A14 (202.6467, -5.8187) -> (208.9427, 6.35) centre (196.2967, 5.1798) ccw
  line L9 (154.515, 6.35) -> (208.9427, 6.35)
  arc A15 (48.685, 6.35) -> (154.515, 6.35) centre (101.6, 22.225) ccw
  line L10 (-5.7427, 6.35) -> (48.685, 6.35)
  arc A16 (40.0205, 88.9) -> (28.5104, 81.5673) centre (40.0205, 76.2) ccw
  line L11 (28.5104, 81.5673) -> (17.1482, 57.2008)
  line L12 (17.1482, 57.2008) -> (58.8367, 57.2008)
  arc A17 (144.3633, 57.2008) -> (58.8367, 57.2008) centre (101.6, 22.225) ccw
  line L13 (144.3633, 57.2008) -> (186.0518, 57.2008)
  line L14 (186.0518, 57.2008) -> (174.6896, 81.5673)
  arc A18 (174.6896, 81.5673) -> (163.1795, 88.9) centre (163.1795, 76.2) ccw
  line L15 (163.1795, 88.9) -> (40.0205, 88.9)
  circle A19 centre (137.3828, 69.8687) radius 3.302
  circle A20 centre (42.7592, 80.5977) radius 3.302
  circle A21 centre (65.8172, 69.8687) radius 3.302
  circle A22 centre (160.4408, 80.5977) radius 3.302
  point P0 (0, 0)
  point P1 (187.325, 19.05)
  point P2 (15.875, 19.05)
  dimension "d76" = 12.7
  dimension "d77" = 85.725
  dimension "d78" = 85.725
  dimension "d79" = 12.7
hole "Hole4" at (187.325, 19.05, 6.35) at (15.875, 19.05, 6.35) direction (0, 0, -1) diameter 6.604 end through all
sketch "Sketch21" plane through (0, 0, 6.35) normal (0, 0, 1) x (1, 0, 0)
  circle A0 centre (187.325, 19.05) radius 3.302
  circle A1 centre (15.875, 19.05) radius 3.302
  arc A2 (-4.6068, 10.5471) -> (-5.7427, 6.35) centre (6.9033, 5.1798) ccw
  line L0 (48.685, 6.35) -> (-5.7427, 6.35)
  arc A3 (48.685, 6.35) -> (154.515, 6.35) centre (101.6, 22.225) ccw
  line L1 (208.9427, 6.35) -> (154.515, 6.35)
  arc A4 (208.9427, 6.35) -> (207.8068, 10.5471) centre (196.2967, 5.1798) ccw
  line L2 (207.8068, 10.5471) -> (186.0518, 57.2008)
  line L3 (144.3633, 57.2008) -> (186.0518, 57.2008)
  arc A5 (144.3633, 57.2008) -> (58.8367, 57.2008) centre (101.6, 22.225) ccw
  line L4 (17.1482, 57.2008) -> (58.8367, 57.2008)
  line L5 (17.1482, 57.2008) -> (-4.6068, 10.5471)
  circle A6 centre (34.2711, 35.4896) radius 12.7
  circle A7 centre (101.6, 22.225) radius 15.5829
  circle A8 centre (168.9289, 35.4896) radius 12.7
  arc A9 (40.0205, 88.9) -> (28.5104, 81.5673) centre (40.0205, 76.2) ccw
  line L6 (28.5104, 81.5673) -> (17.1482, 57.2008)
  line L7 (17.1482, 57.2008) -> (58.8367, 57.2008)
  arc A10 (144.3633, 57.2008) -> (58.8367, 57.2008) centre (101.6, 22.225) ccw
  line L8 (144.3633, 57.2008) -> (186.0518, 57.2008)
  line L9 (186.0518, 57.2008) -> (174.6896, 81.5673)
  arc A11 (174.6896, 81.5673) -> (163.1795, 88.9) centre (163.1795, 76.2) ccw
  line L10 (163.1795, 88.9) -> (40.0205, 88.9)
  circle A12 centre (137.3828, 69.8687) radius 3.302
  circle A13 centre (42.7592, 80.5977) radius 3.302
  circle A14 centre (65.8172, 69.8687) radius 3.302
  circle A15 centre (160.4408, 80.5977) radius 3.302
  circle A16 centre (198.0094, 0.002) radius 3.302
  circle A17 centre (28.2464, -10.702) radius 3.302
  circle A18 centre (5.1906, 0.002) radius 3.302
  circle A19 centre (174.9536, -10.702) radius 3.302
  arc A20 (-5.7427, 6.35) -> (0.5533, -5.8187) centre (6.9033, 5.1798) ccw
  line L11 (0.5533, -5.8187) -> (41.3784, -29.3891)
  arc A21 (41.3784, -29.3891) -> (66.7784, -36.195) centre (66.7784, 14.605) ccw
  line L12 (66.7784, -36.195) -> (136.4216, -36.195)
  arc A22 (136.4216, -36.195) -> (161.8216, -29.3891) centre (136.4216, 14.605) ccw
  line L13 (161.8216, -29.3891) -> (202.6467, -5.8187)
  arc A23 (202.6467, -5.8187) -> (208.9427, 6.35) centre (196.2967, 5.1798) ccw
  line L14 (154.515, 6.35) -> (208.9427, 6.35)
  arc A24 (48.685, 6.35) -> (154.515, 6.35) centre (101.6, 22.225) ccw
  line L15 (-5.7427, 6.35) -> (48.685, 6.35)
  circle A25 centre (101.6, 22.225) radius 14.3129
  point P0 (0, 0)
properties part number "C11R1_ZP_middle wheel plate" material "Polycarbonate, Clear"
